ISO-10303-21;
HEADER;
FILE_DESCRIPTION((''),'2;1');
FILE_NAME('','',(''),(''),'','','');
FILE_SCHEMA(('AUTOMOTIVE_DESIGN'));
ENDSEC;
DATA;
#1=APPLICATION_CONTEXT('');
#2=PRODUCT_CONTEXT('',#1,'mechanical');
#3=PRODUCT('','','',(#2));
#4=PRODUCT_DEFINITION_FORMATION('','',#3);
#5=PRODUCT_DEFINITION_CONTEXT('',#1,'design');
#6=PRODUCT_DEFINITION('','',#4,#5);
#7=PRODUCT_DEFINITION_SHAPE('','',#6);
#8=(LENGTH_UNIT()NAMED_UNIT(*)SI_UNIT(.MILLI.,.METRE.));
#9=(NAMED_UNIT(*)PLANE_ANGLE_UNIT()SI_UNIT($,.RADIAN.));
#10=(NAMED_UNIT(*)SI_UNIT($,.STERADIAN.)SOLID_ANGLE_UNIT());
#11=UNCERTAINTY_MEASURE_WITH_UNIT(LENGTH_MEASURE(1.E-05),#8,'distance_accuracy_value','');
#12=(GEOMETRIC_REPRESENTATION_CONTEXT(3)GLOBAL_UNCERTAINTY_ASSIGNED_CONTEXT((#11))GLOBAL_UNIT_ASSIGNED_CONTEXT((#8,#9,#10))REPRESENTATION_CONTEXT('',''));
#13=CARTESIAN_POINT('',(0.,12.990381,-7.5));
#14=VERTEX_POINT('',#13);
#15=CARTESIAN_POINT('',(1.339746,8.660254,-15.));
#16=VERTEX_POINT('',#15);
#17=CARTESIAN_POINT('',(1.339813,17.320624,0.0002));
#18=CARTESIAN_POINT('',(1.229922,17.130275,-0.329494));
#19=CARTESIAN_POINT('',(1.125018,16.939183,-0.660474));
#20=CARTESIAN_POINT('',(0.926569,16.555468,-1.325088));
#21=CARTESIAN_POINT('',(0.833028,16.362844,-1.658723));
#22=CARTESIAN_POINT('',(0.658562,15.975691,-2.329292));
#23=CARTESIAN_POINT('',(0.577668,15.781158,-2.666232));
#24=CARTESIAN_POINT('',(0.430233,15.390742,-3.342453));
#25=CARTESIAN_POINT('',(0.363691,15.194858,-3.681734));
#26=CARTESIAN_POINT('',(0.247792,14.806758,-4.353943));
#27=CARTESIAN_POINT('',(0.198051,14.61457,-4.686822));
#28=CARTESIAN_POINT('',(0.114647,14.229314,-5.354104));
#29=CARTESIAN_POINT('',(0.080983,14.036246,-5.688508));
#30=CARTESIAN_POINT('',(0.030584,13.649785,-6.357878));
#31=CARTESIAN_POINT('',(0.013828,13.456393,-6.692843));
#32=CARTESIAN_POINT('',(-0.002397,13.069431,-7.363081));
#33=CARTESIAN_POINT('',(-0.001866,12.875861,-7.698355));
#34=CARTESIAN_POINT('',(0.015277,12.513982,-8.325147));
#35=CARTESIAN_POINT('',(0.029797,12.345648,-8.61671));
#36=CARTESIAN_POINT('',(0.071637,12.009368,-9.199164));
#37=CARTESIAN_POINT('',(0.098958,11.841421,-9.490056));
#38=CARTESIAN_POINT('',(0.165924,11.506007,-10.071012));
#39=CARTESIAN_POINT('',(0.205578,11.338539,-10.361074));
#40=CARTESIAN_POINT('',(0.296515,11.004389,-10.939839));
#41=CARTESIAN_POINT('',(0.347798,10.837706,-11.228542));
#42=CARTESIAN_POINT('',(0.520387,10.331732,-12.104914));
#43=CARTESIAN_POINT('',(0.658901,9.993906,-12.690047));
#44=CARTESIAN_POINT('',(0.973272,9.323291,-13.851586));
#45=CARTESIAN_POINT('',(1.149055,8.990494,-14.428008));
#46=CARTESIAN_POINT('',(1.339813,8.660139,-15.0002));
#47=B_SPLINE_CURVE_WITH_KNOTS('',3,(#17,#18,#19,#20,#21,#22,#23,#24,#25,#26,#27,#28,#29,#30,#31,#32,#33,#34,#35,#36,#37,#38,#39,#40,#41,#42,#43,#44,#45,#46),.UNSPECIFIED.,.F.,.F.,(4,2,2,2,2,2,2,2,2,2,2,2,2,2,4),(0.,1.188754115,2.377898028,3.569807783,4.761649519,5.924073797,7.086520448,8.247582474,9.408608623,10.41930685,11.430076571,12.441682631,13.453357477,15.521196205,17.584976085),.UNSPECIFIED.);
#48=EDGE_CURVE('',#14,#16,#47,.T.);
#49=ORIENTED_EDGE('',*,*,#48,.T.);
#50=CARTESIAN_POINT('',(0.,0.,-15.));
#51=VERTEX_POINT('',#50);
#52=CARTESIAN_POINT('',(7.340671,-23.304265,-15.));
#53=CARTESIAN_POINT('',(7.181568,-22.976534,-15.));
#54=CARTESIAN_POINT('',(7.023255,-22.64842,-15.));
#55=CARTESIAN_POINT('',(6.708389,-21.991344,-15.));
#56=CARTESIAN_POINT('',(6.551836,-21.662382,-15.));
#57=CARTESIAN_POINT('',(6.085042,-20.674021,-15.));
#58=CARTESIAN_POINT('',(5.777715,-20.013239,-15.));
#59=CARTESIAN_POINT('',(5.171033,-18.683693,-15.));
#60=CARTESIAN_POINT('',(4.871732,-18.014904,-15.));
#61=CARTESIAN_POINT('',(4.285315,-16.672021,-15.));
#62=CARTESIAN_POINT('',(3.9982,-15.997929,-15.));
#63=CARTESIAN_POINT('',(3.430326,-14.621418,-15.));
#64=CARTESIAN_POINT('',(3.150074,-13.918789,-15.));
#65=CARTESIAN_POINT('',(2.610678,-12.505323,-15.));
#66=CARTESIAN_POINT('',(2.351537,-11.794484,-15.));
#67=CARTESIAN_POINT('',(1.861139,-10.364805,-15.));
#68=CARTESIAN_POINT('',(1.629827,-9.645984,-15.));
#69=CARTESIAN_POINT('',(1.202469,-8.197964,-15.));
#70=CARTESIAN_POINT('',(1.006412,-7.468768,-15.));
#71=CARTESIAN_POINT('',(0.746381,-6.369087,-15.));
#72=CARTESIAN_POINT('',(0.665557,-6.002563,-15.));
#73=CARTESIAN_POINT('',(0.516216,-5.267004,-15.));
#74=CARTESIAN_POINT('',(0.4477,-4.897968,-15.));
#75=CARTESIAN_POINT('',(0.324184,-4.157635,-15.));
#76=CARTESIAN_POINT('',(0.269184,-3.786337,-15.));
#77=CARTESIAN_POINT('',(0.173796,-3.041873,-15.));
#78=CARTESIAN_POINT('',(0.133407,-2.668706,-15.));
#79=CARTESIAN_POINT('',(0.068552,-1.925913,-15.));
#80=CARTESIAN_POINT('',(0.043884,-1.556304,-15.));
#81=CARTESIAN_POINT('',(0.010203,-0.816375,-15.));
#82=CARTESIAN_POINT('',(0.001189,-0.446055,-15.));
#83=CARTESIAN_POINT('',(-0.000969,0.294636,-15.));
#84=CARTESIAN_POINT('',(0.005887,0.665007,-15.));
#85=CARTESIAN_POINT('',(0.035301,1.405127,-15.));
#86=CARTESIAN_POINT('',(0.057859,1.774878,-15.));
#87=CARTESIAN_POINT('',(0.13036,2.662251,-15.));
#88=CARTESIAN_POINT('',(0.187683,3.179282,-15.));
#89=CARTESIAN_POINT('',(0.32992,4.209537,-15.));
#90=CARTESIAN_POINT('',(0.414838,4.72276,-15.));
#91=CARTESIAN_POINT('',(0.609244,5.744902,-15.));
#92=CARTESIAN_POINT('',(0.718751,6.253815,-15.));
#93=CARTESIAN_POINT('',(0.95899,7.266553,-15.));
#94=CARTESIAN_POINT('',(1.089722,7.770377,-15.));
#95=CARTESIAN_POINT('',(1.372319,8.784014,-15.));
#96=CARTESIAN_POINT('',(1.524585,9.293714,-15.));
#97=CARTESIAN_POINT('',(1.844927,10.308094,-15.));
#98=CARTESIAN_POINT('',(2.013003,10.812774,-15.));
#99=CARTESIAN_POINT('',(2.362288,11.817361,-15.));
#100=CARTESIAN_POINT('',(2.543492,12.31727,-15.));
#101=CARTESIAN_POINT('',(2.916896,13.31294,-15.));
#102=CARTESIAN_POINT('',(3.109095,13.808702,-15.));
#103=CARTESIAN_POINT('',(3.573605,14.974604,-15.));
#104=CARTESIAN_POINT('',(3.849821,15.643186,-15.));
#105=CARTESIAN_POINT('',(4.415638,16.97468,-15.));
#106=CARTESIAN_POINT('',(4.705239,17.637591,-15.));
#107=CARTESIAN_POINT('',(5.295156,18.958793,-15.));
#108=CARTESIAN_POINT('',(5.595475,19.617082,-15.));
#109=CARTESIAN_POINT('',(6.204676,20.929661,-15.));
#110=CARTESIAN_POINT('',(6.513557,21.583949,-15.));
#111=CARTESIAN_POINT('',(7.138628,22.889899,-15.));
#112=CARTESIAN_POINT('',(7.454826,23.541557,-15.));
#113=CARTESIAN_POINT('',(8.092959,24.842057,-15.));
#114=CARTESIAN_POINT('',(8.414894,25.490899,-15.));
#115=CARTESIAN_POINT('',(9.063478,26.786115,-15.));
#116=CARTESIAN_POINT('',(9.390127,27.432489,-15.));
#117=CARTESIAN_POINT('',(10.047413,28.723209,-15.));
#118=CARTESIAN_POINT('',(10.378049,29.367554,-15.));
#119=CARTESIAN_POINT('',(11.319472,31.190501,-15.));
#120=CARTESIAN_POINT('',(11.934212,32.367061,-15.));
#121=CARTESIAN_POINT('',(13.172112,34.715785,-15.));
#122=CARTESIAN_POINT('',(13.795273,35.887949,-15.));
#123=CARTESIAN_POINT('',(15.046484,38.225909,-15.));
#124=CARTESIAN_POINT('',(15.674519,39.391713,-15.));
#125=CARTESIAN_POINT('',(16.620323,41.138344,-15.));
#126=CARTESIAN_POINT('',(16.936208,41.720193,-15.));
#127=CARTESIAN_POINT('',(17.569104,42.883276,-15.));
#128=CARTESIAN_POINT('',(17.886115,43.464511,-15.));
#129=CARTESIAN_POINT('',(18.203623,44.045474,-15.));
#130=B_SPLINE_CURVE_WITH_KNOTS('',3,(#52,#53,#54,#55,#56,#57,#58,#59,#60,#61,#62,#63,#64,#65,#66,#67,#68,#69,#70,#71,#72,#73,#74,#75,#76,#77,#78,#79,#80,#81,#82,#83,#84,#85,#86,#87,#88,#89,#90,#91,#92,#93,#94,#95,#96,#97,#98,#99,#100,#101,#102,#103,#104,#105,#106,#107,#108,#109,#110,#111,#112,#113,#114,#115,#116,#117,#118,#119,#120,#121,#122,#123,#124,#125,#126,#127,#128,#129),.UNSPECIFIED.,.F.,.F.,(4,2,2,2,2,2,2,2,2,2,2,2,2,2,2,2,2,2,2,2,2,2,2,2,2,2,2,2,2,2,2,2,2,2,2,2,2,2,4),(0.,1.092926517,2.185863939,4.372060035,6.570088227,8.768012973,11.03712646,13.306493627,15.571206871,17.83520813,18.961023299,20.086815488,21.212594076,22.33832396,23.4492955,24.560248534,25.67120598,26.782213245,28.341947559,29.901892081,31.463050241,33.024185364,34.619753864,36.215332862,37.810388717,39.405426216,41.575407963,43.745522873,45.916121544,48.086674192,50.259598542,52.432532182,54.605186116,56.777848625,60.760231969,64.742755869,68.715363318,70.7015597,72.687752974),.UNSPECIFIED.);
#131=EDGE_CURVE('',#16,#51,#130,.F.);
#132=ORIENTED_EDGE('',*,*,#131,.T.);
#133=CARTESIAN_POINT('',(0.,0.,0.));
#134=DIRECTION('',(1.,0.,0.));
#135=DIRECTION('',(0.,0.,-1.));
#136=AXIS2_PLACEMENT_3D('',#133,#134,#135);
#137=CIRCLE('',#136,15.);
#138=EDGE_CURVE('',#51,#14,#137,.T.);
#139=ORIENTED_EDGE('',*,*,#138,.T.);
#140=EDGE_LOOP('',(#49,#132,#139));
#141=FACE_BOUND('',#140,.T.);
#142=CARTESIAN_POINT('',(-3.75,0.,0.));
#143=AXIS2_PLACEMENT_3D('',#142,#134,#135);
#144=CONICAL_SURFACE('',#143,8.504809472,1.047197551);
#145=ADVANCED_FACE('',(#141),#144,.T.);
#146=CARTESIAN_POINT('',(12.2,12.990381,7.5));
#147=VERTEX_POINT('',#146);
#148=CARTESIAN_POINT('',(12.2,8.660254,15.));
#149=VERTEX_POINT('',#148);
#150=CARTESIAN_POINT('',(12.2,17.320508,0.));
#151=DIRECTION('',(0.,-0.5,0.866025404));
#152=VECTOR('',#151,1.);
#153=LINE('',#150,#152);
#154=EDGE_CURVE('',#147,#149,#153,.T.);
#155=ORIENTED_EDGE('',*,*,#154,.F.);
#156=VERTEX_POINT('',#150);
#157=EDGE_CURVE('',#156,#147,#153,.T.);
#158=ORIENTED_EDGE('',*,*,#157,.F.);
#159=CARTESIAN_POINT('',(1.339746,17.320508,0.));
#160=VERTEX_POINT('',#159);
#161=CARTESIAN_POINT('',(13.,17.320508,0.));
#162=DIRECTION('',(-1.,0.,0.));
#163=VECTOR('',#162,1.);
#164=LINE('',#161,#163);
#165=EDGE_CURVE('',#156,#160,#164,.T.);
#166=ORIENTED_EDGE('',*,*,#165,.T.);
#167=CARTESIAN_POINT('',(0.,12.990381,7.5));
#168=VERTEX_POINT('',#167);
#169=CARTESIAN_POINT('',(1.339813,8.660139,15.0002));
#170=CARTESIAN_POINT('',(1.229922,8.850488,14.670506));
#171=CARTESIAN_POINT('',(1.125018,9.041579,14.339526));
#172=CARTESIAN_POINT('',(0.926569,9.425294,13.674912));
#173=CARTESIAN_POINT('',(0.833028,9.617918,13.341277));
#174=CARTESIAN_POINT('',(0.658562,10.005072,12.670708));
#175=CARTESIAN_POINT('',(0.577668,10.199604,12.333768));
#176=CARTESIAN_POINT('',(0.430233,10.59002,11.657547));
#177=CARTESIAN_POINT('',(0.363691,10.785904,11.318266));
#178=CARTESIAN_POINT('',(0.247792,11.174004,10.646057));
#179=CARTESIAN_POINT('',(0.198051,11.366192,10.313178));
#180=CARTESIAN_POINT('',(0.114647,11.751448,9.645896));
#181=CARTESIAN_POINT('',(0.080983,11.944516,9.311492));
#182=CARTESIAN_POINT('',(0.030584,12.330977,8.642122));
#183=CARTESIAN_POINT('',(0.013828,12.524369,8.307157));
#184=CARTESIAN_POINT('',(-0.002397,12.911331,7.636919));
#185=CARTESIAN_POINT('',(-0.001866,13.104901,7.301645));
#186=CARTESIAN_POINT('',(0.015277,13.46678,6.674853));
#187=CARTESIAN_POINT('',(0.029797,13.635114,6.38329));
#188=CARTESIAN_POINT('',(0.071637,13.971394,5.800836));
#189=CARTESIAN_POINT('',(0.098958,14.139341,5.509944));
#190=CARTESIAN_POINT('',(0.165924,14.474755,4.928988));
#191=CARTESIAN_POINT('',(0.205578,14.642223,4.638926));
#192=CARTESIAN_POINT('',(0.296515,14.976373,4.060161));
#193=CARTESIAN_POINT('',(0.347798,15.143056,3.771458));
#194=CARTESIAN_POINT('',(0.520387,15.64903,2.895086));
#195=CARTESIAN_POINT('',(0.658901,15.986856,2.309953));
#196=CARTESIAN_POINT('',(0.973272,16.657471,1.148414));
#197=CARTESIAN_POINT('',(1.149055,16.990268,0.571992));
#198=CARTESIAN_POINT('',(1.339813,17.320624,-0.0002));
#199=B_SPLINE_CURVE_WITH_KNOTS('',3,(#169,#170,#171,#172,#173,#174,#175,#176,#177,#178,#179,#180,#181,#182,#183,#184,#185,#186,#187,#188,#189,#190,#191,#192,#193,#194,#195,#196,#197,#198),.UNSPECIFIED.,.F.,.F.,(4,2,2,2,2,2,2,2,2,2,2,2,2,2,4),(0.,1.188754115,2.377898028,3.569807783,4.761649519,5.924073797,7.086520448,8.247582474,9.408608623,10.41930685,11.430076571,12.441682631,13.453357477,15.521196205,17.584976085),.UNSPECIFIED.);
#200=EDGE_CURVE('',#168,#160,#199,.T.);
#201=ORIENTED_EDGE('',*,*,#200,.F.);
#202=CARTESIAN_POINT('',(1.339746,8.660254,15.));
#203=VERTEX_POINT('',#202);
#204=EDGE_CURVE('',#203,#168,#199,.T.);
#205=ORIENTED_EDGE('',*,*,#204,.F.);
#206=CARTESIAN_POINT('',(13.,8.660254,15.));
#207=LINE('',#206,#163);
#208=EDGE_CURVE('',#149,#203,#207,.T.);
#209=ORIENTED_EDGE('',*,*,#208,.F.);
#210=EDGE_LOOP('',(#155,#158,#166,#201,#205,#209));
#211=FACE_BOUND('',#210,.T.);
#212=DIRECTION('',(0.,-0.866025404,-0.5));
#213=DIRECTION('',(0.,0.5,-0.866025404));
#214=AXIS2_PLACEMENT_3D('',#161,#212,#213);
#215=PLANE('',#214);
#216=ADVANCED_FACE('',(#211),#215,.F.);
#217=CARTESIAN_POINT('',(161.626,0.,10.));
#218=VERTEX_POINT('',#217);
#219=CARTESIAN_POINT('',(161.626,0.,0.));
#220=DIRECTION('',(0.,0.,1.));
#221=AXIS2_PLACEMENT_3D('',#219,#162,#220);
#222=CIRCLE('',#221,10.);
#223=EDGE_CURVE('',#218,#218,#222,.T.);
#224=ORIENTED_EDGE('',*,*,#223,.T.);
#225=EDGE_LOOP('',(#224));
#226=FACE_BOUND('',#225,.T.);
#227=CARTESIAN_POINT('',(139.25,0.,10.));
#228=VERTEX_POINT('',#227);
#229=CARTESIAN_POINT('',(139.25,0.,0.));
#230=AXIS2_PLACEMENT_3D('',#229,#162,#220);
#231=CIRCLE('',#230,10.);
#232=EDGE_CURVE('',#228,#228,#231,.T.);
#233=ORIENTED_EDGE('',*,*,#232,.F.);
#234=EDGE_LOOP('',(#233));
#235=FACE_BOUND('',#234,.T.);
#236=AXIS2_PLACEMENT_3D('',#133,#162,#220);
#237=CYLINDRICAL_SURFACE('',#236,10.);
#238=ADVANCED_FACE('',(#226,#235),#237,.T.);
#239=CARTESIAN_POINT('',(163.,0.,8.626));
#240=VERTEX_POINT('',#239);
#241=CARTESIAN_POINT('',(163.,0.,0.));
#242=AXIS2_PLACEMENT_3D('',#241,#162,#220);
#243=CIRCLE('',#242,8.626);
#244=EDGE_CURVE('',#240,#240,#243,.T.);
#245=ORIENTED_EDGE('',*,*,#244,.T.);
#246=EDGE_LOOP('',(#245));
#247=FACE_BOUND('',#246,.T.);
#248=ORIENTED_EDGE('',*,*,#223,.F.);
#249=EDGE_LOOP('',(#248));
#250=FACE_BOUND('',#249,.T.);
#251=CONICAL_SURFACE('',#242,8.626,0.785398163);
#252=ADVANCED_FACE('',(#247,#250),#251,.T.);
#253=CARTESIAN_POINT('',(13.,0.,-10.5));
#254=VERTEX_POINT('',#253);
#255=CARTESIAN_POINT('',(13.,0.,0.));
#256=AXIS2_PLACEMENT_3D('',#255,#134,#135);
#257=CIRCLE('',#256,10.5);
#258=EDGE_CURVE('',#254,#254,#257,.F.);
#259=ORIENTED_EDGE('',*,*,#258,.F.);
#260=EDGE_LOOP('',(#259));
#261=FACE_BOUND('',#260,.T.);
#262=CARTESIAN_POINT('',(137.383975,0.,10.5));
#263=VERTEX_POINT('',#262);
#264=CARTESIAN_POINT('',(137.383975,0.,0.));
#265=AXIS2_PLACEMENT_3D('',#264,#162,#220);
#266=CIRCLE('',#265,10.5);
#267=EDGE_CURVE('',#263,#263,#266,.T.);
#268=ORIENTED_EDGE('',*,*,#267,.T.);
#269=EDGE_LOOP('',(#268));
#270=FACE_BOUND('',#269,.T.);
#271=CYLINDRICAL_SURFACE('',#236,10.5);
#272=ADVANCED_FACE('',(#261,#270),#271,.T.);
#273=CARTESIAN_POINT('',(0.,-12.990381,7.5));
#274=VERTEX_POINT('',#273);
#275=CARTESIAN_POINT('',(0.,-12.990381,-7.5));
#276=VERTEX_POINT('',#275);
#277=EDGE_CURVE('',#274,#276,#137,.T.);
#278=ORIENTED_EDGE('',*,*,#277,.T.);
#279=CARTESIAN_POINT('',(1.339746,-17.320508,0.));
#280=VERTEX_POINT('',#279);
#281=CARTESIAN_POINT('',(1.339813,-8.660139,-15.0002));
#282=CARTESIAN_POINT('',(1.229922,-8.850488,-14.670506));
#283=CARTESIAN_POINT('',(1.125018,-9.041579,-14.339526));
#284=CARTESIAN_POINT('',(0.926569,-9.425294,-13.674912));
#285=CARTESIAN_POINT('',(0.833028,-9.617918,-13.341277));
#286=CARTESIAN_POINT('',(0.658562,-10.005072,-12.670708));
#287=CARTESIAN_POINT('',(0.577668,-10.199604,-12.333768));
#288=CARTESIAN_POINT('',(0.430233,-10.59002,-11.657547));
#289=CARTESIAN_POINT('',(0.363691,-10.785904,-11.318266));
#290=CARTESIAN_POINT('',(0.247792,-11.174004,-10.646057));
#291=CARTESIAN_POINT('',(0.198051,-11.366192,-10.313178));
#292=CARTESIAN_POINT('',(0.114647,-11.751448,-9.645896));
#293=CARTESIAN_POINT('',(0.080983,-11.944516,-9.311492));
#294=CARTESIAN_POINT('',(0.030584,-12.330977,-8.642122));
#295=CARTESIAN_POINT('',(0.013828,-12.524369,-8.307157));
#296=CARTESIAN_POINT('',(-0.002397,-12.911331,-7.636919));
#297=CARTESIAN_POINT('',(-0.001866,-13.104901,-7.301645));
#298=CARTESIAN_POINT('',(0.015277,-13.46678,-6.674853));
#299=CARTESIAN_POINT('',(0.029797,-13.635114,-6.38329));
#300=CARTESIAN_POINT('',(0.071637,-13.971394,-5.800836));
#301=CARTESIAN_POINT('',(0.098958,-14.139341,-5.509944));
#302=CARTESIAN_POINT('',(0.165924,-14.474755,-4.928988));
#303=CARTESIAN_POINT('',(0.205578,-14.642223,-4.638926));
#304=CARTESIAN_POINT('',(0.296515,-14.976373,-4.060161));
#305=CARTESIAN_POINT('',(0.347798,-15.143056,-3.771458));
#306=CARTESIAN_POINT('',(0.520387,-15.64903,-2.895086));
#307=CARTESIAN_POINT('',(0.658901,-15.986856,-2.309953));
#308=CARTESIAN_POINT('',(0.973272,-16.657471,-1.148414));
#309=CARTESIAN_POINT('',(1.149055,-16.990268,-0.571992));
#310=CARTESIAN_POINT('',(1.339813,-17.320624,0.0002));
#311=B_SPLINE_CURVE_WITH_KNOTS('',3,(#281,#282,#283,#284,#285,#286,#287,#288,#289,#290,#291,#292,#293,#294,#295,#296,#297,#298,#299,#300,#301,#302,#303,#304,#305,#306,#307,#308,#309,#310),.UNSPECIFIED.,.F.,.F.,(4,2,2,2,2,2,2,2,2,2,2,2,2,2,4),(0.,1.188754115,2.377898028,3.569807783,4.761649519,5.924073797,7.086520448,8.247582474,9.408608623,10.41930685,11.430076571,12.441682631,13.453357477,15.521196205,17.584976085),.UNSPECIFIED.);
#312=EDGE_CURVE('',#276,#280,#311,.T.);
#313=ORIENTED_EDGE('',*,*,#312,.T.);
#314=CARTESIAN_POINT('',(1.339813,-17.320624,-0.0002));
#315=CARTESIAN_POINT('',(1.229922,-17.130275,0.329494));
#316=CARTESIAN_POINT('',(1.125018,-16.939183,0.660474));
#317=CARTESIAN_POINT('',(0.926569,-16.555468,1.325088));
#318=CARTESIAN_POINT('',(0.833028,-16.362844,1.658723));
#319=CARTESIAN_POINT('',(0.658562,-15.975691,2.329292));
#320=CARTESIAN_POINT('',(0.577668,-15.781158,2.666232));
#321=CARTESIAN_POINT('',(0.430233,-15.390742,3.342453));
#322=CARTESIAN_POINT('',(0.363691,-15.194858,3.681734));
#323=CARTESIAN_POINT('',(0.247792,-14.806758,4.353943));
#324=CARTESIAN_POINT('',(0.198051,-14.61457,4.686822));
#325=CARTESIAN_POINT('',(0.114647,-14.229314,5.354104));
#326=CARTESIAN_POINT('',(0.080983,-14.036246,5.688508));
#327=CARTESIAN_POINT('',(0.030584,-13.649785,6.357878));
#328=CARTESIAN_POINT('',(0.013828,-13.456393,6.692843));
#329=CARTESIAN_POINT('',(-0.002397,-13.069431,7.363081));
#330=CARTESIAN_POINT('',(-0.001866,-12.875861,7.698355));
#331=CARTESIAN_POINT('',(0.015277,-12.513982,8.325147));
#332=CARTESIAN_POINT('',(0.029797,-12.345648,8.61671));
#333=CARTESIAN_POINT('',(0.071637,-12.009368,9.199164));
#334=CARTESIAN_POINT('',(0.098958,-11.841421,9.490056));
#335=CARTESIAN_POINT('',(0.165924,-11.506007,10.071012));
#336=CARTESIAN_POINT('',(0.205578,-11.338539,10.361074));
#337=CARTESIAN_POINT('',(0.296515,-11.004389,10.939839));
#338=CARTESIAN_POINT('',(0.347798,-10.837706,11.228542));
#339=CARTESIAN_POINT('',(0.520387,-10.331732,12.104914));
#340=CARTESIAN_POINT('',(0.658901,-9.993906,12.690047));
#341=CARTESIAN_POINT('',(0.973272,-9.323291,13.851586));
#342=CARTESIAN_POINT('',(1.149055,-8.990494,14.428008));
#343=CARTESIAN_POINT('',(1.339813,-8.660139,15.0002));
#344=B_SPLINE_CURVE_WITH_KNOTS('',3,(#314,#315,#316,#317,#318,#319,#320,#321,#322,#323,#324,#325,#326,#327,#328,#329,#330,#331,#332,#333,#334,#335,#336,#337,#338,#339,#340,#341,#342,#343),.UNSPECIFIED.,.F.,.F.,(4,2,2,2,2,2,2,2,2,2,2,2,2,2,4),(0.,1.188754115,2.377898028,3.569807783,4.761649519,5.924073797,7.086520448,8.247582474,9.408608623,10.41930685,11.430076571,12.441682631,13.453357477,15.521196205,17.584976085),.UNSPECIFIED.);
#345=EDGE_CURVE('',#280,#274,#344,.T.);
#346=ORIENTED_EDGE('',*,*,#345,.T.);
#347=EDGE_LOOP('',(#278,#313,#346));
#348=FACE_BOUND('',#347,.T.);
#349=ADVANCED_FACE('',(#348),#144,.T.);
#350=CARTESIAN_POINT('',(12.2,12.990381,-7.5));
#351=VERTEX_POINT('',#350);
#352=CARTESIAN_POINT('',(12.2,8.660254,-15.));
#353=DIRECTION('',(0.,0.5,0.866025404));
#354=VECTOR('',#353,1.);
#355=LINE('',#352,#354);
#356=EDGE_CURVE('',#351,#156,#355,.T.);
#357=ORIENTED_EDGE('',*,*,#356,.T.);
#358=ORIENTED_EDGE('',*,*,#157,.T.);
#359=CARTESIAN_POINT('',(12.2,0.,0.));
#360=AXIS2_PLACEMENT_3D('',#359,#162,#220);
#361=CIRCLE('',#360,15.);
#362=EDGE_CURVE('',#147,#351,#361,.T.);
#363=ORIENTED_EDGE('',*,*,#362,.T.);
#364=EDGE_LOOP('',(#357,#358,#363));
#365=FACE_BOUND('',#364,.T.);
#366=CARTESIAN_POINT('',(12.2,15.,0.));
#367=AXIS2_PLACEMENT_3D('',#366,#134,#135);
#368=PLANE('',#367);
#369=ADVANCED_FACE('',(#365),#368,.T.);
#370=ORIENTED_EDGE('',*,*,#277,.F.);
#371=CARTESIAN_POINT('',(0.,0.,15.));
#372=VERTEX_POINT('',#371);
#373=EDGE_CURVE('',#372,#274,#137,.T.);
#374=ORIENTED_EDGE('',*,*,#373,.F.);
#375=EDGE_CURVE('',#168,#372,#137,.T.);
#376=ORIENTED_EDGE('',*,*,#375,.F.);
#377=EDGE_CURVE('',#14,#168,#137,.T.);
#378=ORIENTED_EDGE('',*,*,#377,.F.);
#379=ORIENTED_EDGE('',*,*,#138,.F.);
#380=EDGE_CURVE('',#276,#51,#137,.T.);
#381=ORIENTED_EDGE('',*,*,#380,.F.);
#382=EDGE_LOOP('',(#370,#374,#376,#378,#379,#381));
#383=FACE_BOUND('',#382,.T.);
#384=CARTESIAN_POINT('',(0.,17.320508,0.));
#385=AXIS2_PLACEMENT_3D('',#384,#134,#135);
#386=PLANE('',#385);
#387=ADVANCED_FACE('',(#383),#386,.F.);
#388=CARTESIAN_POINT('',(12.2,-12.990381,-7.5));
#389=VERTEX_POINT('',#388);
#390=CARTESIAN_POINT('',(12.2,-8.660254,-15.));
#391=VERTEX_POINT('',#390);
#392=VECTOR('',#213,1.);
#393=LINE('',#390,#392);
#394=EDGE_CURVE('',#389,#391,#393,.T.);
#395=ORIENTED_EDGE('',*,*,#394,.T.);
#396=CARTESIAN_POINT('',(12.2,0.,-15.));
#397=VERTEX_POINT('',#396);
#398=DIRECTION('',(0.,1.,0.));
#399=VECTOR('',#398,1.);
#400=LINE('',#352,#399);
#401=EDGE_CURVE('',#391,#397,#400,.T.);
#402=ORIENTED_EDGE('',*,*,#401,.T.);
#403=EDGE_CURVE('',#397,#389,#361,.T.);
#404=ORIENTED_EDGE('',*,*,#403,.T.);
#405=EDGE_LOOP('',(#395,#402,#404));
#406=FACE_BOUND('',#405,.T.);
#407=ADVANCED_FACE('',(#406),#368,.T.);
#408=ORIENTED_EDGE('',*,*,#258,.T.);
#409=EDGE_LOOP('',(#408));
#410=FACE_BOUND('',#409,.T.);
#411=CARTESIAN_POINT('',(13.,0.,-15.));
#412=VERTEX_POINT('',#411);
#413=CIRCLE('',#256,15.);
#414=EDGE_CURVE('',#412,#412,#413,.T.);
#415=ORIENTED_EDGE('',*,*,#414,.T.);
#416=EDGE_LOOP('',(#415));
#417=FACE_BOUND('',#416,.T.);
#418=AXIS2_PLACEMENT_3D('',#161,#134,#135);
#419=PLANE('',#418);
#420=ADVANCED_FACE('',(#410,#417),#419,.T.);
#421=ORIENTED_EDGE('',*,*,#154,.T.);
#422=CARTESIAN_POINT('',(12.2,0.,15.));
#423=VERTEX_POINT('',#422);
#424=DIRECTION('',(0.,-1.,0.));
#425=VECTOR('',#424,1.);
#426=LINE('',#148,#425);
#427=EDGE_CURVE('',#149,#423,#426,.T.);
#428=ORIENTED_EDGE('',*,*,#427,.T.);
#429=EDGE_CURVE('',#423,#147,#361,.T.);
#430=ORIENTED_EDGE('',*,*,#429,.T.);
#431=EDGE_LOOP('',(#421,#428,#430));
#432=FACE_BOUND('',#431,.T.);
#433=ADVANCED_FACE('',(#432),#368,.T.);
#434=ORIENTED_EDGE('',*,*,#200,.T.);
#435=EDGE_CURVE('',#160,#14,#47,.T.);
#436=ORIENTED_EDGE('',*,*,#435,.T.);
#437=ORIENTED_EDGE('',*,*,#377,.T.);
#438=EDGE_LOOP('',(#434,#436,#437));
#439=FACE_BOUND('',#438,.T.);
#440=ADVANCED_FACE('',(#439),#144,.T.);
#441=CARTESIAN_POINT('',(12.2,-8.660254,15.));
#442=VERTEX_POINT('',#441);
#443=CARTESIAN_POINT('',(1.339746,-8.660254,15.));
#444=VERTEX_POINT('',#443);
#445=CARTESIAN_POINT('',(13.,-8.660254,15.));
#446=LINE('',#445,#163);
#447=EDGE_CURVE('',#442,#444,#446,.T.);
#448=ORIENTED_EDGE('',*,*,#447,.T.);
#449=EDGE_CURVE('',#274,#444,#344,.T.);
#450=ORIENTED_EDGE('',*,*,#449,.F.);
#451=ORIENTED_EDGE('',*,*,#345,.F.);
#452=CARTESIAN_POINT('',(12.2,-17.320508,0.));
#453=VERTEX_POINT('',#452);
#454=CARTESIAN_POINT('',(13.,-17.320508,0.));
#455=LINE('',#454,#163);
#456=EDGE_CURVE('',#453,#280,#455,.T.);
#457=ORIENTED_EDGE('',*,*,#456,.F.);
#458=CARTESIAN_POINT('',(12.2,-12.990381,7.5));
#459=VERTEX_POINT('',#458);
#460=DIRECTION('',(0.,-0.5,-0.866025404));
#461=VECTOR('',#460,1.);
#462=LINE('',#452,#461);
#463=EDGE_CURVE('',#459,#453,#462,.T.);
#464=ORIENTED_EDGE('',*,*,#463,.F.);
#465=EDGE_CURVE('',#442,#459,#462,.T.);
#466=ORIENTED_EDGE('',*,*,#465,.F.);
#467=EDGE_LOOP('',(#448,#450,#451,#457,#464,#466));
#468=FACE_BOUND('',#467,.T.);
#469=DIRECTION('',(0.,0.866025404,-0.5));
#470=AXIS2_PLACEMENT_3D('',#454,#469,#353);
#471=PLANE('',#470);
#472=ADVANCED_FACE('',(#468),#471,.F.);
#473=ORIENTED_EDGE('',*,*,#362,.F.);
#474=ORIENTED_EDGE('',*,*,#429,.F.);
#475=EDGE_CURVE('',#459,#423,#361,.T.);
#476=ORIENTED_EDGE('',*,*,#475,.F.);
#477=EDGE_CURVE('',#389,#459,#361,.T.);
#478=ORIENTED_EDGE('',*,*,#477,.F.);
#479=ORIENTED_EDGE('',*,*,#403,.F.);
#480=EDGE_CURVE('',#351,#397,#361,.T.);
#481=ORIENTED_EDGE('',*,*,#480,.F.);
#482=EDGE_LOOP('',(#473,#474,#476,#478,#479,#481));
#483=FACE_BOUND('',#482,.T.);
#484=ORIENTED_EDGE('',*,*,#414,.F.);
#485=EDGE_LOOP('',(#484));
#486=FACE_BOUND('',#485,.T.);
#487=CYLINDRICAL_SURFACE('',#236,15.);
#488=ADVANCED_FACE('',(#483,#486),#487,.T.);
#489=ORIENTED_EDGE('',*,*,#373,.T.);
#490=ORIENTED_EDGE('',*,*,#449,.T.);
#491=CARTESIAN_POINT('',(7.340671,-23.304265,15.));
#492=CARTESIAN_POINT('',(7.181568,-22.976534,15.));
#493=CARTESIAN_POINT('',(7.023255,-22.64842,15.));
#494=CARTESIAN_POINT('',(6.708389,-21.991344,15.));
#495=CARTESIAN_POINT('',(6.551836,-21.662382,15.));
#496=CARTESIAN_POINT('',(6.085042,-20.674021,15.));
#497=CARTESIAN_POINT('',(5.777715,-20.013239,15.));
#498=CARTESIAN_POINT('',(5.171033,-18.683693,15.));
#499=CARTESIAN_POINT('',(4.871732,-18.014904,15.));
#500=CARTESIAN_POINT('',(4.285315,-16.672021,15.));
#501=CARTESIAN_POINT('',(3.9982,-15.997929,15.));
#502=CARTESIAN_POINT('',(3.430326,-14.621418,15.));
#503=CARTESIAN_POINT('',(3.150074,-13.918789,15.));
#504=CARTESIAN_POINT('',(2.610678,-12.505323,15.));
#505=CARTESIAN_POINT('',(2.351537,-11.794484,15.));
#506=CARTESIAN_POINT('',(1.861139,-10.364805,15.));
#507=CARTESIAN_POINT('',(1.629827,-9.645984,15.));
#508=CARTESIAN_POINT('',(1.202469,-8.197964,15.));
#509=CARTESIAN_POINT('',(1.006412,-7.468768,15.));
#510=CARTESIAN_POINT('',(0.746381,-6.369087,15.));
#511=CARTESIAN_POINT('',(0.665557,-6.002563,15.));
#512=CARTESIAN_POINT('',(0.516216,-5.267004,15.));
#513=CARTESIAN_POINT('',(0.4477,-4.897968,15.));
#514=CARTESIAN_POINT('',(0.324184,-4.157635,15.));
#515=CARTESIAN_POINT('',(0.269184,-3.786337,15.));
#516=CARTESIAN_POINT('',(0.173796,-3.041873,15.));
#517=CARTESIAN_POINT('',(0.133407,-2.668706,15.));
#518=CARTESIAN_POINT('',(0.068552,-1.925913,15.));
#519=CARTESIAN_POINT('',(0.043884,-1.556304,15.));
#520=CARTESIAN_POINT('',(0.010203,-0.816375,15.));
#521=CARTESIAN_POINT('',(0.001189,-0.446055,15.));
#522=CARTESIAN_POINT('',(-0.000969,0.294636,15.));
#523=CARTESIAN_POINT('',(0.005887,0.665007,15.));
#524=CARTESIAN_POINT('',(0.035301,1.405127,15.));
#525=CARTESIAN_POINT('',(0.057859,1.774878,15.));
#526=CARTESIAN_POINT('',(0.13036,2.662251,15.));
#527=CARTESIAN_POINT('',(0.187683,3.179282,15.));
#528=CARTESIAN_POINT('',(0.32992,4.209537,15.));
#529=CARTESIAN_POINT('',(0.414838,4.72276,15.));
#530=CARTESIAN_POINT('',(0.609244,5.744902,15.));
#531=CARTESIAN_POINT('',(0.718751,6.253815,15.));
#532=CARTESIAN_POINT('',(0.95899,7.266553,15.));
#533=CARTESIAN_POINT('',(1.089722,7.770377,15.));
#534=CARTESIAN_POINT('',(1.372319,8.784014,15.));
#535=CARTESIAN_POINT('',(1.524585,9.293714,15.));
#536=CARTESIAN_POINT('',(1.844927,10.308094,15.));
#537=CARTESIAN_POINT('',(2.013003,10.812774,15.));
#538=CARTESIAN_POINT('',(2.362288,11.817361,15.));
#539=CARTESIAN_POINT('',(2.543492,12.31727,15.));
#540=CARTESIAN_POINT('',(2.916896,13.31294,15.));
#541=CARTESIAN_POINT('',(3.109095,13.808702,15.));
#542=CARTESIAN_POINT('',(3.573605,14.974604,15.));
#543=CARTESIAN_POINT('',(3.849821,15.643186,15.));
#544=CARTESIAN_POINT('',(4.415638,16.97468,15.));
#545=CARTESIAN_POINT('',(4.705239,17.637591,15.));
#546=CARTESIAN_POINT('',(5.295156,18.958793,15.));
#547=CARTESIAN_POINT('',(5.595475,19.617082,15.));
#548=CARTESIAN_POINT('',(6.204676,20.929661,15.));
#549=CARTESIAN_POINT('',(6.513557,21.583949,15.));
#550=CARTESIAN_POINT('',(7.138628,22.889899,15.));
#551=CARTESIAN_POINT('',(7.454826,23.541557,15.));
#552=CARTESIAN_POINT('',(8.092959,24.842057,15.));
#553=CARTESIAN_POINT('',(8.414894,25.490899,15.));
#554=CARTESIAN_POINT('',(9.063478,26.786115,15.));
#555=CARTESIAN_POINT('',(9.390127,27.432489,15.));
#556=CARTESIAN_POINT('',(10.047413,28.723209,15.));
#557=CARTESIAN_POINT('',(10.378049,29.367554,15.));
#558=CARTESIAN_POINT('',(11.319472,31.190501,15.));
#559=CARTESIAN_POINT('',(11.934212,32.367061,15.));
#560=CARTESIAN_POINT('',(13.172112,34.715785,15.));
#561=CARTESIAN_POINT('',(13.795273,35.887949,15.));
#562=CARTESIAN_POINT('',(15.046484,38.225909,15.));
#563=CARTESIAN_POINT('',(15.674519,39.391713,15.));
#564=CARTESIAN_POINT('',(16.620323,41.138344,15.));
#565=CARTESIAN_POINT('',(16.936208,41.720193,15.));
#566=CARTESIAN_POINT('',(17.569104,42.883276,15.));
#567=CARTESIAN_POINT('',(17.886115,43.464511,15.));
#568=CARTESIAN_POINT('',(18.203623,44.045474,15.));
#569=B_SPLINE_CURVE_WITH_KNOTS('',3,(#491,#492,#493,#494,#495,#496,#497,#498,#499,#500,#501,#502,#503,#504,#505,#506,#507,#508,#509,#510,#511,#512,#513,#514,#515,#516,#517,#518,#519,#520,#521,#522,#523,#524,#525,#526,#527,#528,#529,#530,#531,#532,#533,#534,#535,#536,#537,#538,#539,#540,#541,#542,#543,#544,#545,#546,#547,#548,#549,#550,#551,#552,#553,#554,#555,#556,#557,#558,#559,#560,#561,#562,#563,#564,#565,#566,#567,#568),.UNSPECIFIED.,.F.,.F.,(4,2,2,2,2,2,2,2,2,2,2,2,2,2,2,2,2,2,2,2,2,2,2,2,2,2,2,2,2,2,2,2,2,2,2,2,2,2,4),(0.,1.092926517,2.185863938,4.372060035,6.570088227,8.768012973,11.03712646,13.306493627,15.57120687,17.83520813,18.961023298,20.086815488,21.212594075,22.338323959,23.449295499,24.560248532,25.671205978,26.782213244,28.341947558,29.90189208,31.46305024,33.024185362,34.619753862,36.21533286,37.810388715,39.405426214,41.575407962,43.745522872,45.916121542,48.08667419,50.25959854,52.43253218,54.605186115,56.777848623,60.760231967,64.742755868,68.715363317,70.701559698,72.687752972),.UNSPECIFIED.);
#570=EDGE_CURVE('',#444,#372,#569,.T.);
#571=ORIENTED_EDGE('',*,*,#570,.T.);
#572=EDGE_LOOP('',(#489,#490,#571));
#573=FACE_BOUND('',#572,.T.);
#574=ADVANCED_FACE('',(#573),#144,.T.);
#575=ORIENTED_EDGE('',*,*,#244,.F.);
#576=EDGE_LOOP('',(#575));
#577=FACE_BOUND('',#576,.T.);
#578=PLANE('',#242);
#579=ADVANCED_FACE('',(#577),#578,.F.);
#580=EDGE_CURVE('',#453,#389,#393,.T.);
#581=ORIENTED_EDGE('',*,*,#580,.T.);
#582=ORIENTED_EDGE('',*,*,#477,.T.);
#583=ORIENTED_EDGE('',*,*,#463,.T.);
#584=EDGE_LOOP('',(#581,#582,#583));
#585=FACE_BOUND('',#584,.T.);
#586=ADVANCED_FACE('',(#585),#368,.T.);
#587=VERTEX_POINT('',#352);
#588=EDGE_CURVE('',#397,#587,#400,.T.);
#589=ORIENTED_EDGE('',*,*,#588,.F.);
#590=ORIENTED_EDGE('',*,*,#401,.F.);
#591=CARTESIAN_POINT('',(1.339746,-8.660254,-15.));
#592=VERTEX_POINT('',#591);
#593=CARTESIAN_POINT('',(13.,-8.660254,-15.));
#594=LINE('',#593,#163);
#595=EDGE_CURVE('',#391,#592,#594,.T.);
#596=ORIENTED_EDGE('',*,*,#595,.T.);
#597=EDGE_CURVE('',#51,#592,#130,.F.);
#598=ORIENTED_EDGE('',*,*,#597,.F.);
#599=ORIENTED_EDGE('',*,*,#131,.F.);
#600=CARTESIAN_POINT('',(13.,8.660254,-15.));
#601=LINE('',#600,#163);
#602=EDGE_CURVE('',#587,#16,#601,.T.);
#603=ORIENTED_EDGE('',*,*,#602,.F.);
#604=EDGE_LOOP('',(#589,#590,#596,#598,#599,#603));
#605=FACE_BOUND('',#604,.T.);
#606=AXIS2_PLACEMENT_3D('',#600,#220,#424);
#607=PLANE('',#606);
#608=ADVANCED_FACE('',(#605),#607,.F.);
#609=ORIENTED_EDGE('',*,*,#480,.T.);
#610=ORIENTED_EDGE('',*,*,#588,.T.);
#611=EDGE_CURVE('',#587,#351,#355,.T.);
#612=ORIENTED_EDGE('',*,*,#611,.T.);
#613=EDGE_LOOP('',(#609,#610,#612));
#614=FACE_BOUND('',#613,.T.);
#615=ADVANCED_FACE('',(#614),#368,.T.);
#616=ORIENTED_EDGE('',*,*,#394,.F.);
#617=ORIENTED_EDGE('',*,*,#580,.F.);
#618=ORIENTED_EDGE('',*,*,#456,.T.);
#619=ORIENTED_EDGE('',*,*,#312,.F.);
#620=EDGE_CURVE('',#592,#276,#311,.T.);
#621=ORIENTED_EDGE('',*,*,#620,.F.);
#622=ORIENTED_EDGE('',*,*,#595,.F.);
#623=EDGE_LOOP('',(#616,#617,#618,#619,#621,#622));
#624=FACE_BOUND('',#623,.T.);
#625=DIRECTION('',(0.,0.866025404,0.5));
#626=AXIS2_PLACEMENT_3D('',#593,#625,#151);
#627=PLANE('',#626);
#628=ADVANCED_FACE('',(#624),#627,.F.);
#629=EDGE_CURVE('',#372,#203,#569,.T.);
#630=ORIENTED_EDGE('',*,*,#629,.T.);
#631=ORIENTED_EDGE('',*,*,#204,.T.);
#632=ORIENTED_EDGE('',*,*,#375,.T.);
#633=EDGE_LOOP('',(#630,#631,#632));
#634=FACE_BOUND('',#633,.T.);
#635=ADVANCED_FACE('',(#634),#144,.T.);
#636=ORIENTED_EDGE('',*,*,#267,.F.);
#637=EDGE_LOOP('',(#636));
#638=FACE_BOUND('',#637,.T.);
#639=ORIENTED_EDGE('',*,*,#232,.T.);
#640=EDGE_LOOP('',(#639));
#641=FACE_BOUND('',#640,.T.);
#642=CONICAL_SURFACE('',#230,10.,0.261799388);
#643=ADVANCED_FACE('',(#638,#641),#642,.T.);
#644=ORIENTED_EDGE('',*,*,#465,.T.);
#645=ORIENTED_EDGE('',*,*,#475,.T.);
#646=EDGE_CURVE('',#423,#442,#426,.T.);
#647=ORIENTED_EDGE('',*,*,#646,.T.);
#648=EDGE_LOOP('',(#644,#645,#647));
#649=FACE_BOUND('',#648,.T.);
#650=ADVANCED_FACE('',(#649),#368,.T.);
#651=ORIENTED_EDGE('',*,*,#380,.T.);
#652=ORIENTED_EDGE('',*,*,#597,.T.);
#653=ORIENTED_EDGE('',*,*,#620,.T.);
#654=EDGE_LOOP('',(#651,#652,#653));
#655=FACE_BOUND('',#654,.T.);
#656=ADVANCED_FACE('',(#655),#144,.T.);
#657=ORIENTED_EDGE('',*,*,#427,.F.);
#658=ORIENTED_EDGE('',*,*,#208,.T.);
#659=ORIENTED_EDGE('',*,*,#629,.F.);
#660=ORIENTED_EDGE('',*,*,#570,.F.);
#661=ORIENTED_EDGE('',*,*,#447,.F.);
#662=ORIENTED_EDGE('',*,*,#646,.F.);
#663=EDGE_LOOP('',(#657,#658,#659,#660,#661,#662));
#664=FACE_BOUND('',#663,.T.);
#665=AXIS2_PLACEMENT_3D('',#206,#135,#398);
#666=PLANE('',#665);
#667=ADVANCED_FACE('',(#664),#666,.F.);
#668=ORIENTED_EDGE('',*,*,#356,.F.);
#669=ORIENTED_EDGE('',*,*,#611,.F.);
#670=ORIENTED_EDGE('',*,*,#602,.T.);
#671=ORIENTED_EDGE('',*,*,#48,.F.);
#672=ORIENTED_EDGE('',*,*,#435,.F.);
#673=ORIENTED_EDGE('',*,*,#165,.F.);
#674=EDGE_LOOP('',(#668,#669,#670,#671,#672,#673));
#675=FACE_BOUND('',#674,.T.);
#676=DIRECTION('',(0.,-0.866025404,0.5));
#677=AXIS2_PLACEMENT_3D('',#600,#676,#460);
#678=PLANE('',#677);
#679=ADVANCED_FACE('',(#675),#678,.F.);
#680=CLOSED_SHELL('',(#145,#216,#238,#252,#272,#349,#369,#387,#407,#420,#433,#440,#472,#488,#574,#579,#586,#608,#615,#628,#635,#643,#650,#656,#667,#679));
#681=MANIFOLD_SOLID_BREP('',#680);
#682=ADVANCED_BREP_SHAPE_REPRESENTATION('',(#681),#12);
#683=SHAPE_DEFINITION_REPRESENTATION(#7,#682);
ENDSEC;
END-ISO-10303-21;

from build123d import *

# Parameters (mm, degrees)
BASEHEAD_DEPTH = 13
BEARINGSKE_W   = 0.8
BEARINGSKE_H   = 2.320508076


with BuildPart() as part:
    # HeadSke → BaseHead (new body)
    with BuildSketch(Plane(origin=(0, 0, 0), x_dir=(0, 0, -1), z_dir=(1, 0, 0))):
        Polygon((15, 8.660254038), (15, -8.660254038), (0, -17.320508076), (-15, -8.660254038), (-15, 8.660254038), (0, 17.320508076), align=None)
    extrude(amount=BASEHEAD_DEPTH)

    # BodySke → BaseBody (revolve)
    with BuildSketch(Plane.XY, mode=Mode.PRIVATE) as basebody_sk:
        Polygon((0, 10.5), (0, 0), (163, 0), (163, 8.626), (161.626, 10), (139.25, 10), (137.383974596, 10.5), align=None)
    revolve(basebody_sk.sketch.rotate(Axis((0, 0, 0), (1, 0, 0)), 90), axis=Axis((0, 0, 0), (1, 0, 0)))

    # Sketch3 → HeadChamfer (revolve, cut)
    with BuildSketch(Plane(origin=(0, 0, 0), x_dir=(1, 0, 0), z_dir=(0, 1, 0))):
        Polygon((3.75, 21.495190528), (-3.75, 8.504809472), (-13.695781038, 14.247008831), (-6.195781038, 27.237389888), align=None)
    revolve(axis=Axis((0, 0, 0), (1, 0, 0)), mode=Mode.SUBTRACT)

    # BearingSke → BearingFace (revolve, cut)
    with BuildSketch(Plane.XY, mode=Mode.PRIVATE) as bearingface_sk:
        with Locations((12.6, 16.160254038)):
            Rectangle(BEARINGSKE_W, BEARINGSKE_H)
    revolve(bearingface_sk.sketch.rotate(Axis((0, 0, 0), (1, 0, 0)), 270), axis=Axis((0, 0, 0), (1, 0, 0)), mode=Mode.SUBTRACT)


solid = part.part
